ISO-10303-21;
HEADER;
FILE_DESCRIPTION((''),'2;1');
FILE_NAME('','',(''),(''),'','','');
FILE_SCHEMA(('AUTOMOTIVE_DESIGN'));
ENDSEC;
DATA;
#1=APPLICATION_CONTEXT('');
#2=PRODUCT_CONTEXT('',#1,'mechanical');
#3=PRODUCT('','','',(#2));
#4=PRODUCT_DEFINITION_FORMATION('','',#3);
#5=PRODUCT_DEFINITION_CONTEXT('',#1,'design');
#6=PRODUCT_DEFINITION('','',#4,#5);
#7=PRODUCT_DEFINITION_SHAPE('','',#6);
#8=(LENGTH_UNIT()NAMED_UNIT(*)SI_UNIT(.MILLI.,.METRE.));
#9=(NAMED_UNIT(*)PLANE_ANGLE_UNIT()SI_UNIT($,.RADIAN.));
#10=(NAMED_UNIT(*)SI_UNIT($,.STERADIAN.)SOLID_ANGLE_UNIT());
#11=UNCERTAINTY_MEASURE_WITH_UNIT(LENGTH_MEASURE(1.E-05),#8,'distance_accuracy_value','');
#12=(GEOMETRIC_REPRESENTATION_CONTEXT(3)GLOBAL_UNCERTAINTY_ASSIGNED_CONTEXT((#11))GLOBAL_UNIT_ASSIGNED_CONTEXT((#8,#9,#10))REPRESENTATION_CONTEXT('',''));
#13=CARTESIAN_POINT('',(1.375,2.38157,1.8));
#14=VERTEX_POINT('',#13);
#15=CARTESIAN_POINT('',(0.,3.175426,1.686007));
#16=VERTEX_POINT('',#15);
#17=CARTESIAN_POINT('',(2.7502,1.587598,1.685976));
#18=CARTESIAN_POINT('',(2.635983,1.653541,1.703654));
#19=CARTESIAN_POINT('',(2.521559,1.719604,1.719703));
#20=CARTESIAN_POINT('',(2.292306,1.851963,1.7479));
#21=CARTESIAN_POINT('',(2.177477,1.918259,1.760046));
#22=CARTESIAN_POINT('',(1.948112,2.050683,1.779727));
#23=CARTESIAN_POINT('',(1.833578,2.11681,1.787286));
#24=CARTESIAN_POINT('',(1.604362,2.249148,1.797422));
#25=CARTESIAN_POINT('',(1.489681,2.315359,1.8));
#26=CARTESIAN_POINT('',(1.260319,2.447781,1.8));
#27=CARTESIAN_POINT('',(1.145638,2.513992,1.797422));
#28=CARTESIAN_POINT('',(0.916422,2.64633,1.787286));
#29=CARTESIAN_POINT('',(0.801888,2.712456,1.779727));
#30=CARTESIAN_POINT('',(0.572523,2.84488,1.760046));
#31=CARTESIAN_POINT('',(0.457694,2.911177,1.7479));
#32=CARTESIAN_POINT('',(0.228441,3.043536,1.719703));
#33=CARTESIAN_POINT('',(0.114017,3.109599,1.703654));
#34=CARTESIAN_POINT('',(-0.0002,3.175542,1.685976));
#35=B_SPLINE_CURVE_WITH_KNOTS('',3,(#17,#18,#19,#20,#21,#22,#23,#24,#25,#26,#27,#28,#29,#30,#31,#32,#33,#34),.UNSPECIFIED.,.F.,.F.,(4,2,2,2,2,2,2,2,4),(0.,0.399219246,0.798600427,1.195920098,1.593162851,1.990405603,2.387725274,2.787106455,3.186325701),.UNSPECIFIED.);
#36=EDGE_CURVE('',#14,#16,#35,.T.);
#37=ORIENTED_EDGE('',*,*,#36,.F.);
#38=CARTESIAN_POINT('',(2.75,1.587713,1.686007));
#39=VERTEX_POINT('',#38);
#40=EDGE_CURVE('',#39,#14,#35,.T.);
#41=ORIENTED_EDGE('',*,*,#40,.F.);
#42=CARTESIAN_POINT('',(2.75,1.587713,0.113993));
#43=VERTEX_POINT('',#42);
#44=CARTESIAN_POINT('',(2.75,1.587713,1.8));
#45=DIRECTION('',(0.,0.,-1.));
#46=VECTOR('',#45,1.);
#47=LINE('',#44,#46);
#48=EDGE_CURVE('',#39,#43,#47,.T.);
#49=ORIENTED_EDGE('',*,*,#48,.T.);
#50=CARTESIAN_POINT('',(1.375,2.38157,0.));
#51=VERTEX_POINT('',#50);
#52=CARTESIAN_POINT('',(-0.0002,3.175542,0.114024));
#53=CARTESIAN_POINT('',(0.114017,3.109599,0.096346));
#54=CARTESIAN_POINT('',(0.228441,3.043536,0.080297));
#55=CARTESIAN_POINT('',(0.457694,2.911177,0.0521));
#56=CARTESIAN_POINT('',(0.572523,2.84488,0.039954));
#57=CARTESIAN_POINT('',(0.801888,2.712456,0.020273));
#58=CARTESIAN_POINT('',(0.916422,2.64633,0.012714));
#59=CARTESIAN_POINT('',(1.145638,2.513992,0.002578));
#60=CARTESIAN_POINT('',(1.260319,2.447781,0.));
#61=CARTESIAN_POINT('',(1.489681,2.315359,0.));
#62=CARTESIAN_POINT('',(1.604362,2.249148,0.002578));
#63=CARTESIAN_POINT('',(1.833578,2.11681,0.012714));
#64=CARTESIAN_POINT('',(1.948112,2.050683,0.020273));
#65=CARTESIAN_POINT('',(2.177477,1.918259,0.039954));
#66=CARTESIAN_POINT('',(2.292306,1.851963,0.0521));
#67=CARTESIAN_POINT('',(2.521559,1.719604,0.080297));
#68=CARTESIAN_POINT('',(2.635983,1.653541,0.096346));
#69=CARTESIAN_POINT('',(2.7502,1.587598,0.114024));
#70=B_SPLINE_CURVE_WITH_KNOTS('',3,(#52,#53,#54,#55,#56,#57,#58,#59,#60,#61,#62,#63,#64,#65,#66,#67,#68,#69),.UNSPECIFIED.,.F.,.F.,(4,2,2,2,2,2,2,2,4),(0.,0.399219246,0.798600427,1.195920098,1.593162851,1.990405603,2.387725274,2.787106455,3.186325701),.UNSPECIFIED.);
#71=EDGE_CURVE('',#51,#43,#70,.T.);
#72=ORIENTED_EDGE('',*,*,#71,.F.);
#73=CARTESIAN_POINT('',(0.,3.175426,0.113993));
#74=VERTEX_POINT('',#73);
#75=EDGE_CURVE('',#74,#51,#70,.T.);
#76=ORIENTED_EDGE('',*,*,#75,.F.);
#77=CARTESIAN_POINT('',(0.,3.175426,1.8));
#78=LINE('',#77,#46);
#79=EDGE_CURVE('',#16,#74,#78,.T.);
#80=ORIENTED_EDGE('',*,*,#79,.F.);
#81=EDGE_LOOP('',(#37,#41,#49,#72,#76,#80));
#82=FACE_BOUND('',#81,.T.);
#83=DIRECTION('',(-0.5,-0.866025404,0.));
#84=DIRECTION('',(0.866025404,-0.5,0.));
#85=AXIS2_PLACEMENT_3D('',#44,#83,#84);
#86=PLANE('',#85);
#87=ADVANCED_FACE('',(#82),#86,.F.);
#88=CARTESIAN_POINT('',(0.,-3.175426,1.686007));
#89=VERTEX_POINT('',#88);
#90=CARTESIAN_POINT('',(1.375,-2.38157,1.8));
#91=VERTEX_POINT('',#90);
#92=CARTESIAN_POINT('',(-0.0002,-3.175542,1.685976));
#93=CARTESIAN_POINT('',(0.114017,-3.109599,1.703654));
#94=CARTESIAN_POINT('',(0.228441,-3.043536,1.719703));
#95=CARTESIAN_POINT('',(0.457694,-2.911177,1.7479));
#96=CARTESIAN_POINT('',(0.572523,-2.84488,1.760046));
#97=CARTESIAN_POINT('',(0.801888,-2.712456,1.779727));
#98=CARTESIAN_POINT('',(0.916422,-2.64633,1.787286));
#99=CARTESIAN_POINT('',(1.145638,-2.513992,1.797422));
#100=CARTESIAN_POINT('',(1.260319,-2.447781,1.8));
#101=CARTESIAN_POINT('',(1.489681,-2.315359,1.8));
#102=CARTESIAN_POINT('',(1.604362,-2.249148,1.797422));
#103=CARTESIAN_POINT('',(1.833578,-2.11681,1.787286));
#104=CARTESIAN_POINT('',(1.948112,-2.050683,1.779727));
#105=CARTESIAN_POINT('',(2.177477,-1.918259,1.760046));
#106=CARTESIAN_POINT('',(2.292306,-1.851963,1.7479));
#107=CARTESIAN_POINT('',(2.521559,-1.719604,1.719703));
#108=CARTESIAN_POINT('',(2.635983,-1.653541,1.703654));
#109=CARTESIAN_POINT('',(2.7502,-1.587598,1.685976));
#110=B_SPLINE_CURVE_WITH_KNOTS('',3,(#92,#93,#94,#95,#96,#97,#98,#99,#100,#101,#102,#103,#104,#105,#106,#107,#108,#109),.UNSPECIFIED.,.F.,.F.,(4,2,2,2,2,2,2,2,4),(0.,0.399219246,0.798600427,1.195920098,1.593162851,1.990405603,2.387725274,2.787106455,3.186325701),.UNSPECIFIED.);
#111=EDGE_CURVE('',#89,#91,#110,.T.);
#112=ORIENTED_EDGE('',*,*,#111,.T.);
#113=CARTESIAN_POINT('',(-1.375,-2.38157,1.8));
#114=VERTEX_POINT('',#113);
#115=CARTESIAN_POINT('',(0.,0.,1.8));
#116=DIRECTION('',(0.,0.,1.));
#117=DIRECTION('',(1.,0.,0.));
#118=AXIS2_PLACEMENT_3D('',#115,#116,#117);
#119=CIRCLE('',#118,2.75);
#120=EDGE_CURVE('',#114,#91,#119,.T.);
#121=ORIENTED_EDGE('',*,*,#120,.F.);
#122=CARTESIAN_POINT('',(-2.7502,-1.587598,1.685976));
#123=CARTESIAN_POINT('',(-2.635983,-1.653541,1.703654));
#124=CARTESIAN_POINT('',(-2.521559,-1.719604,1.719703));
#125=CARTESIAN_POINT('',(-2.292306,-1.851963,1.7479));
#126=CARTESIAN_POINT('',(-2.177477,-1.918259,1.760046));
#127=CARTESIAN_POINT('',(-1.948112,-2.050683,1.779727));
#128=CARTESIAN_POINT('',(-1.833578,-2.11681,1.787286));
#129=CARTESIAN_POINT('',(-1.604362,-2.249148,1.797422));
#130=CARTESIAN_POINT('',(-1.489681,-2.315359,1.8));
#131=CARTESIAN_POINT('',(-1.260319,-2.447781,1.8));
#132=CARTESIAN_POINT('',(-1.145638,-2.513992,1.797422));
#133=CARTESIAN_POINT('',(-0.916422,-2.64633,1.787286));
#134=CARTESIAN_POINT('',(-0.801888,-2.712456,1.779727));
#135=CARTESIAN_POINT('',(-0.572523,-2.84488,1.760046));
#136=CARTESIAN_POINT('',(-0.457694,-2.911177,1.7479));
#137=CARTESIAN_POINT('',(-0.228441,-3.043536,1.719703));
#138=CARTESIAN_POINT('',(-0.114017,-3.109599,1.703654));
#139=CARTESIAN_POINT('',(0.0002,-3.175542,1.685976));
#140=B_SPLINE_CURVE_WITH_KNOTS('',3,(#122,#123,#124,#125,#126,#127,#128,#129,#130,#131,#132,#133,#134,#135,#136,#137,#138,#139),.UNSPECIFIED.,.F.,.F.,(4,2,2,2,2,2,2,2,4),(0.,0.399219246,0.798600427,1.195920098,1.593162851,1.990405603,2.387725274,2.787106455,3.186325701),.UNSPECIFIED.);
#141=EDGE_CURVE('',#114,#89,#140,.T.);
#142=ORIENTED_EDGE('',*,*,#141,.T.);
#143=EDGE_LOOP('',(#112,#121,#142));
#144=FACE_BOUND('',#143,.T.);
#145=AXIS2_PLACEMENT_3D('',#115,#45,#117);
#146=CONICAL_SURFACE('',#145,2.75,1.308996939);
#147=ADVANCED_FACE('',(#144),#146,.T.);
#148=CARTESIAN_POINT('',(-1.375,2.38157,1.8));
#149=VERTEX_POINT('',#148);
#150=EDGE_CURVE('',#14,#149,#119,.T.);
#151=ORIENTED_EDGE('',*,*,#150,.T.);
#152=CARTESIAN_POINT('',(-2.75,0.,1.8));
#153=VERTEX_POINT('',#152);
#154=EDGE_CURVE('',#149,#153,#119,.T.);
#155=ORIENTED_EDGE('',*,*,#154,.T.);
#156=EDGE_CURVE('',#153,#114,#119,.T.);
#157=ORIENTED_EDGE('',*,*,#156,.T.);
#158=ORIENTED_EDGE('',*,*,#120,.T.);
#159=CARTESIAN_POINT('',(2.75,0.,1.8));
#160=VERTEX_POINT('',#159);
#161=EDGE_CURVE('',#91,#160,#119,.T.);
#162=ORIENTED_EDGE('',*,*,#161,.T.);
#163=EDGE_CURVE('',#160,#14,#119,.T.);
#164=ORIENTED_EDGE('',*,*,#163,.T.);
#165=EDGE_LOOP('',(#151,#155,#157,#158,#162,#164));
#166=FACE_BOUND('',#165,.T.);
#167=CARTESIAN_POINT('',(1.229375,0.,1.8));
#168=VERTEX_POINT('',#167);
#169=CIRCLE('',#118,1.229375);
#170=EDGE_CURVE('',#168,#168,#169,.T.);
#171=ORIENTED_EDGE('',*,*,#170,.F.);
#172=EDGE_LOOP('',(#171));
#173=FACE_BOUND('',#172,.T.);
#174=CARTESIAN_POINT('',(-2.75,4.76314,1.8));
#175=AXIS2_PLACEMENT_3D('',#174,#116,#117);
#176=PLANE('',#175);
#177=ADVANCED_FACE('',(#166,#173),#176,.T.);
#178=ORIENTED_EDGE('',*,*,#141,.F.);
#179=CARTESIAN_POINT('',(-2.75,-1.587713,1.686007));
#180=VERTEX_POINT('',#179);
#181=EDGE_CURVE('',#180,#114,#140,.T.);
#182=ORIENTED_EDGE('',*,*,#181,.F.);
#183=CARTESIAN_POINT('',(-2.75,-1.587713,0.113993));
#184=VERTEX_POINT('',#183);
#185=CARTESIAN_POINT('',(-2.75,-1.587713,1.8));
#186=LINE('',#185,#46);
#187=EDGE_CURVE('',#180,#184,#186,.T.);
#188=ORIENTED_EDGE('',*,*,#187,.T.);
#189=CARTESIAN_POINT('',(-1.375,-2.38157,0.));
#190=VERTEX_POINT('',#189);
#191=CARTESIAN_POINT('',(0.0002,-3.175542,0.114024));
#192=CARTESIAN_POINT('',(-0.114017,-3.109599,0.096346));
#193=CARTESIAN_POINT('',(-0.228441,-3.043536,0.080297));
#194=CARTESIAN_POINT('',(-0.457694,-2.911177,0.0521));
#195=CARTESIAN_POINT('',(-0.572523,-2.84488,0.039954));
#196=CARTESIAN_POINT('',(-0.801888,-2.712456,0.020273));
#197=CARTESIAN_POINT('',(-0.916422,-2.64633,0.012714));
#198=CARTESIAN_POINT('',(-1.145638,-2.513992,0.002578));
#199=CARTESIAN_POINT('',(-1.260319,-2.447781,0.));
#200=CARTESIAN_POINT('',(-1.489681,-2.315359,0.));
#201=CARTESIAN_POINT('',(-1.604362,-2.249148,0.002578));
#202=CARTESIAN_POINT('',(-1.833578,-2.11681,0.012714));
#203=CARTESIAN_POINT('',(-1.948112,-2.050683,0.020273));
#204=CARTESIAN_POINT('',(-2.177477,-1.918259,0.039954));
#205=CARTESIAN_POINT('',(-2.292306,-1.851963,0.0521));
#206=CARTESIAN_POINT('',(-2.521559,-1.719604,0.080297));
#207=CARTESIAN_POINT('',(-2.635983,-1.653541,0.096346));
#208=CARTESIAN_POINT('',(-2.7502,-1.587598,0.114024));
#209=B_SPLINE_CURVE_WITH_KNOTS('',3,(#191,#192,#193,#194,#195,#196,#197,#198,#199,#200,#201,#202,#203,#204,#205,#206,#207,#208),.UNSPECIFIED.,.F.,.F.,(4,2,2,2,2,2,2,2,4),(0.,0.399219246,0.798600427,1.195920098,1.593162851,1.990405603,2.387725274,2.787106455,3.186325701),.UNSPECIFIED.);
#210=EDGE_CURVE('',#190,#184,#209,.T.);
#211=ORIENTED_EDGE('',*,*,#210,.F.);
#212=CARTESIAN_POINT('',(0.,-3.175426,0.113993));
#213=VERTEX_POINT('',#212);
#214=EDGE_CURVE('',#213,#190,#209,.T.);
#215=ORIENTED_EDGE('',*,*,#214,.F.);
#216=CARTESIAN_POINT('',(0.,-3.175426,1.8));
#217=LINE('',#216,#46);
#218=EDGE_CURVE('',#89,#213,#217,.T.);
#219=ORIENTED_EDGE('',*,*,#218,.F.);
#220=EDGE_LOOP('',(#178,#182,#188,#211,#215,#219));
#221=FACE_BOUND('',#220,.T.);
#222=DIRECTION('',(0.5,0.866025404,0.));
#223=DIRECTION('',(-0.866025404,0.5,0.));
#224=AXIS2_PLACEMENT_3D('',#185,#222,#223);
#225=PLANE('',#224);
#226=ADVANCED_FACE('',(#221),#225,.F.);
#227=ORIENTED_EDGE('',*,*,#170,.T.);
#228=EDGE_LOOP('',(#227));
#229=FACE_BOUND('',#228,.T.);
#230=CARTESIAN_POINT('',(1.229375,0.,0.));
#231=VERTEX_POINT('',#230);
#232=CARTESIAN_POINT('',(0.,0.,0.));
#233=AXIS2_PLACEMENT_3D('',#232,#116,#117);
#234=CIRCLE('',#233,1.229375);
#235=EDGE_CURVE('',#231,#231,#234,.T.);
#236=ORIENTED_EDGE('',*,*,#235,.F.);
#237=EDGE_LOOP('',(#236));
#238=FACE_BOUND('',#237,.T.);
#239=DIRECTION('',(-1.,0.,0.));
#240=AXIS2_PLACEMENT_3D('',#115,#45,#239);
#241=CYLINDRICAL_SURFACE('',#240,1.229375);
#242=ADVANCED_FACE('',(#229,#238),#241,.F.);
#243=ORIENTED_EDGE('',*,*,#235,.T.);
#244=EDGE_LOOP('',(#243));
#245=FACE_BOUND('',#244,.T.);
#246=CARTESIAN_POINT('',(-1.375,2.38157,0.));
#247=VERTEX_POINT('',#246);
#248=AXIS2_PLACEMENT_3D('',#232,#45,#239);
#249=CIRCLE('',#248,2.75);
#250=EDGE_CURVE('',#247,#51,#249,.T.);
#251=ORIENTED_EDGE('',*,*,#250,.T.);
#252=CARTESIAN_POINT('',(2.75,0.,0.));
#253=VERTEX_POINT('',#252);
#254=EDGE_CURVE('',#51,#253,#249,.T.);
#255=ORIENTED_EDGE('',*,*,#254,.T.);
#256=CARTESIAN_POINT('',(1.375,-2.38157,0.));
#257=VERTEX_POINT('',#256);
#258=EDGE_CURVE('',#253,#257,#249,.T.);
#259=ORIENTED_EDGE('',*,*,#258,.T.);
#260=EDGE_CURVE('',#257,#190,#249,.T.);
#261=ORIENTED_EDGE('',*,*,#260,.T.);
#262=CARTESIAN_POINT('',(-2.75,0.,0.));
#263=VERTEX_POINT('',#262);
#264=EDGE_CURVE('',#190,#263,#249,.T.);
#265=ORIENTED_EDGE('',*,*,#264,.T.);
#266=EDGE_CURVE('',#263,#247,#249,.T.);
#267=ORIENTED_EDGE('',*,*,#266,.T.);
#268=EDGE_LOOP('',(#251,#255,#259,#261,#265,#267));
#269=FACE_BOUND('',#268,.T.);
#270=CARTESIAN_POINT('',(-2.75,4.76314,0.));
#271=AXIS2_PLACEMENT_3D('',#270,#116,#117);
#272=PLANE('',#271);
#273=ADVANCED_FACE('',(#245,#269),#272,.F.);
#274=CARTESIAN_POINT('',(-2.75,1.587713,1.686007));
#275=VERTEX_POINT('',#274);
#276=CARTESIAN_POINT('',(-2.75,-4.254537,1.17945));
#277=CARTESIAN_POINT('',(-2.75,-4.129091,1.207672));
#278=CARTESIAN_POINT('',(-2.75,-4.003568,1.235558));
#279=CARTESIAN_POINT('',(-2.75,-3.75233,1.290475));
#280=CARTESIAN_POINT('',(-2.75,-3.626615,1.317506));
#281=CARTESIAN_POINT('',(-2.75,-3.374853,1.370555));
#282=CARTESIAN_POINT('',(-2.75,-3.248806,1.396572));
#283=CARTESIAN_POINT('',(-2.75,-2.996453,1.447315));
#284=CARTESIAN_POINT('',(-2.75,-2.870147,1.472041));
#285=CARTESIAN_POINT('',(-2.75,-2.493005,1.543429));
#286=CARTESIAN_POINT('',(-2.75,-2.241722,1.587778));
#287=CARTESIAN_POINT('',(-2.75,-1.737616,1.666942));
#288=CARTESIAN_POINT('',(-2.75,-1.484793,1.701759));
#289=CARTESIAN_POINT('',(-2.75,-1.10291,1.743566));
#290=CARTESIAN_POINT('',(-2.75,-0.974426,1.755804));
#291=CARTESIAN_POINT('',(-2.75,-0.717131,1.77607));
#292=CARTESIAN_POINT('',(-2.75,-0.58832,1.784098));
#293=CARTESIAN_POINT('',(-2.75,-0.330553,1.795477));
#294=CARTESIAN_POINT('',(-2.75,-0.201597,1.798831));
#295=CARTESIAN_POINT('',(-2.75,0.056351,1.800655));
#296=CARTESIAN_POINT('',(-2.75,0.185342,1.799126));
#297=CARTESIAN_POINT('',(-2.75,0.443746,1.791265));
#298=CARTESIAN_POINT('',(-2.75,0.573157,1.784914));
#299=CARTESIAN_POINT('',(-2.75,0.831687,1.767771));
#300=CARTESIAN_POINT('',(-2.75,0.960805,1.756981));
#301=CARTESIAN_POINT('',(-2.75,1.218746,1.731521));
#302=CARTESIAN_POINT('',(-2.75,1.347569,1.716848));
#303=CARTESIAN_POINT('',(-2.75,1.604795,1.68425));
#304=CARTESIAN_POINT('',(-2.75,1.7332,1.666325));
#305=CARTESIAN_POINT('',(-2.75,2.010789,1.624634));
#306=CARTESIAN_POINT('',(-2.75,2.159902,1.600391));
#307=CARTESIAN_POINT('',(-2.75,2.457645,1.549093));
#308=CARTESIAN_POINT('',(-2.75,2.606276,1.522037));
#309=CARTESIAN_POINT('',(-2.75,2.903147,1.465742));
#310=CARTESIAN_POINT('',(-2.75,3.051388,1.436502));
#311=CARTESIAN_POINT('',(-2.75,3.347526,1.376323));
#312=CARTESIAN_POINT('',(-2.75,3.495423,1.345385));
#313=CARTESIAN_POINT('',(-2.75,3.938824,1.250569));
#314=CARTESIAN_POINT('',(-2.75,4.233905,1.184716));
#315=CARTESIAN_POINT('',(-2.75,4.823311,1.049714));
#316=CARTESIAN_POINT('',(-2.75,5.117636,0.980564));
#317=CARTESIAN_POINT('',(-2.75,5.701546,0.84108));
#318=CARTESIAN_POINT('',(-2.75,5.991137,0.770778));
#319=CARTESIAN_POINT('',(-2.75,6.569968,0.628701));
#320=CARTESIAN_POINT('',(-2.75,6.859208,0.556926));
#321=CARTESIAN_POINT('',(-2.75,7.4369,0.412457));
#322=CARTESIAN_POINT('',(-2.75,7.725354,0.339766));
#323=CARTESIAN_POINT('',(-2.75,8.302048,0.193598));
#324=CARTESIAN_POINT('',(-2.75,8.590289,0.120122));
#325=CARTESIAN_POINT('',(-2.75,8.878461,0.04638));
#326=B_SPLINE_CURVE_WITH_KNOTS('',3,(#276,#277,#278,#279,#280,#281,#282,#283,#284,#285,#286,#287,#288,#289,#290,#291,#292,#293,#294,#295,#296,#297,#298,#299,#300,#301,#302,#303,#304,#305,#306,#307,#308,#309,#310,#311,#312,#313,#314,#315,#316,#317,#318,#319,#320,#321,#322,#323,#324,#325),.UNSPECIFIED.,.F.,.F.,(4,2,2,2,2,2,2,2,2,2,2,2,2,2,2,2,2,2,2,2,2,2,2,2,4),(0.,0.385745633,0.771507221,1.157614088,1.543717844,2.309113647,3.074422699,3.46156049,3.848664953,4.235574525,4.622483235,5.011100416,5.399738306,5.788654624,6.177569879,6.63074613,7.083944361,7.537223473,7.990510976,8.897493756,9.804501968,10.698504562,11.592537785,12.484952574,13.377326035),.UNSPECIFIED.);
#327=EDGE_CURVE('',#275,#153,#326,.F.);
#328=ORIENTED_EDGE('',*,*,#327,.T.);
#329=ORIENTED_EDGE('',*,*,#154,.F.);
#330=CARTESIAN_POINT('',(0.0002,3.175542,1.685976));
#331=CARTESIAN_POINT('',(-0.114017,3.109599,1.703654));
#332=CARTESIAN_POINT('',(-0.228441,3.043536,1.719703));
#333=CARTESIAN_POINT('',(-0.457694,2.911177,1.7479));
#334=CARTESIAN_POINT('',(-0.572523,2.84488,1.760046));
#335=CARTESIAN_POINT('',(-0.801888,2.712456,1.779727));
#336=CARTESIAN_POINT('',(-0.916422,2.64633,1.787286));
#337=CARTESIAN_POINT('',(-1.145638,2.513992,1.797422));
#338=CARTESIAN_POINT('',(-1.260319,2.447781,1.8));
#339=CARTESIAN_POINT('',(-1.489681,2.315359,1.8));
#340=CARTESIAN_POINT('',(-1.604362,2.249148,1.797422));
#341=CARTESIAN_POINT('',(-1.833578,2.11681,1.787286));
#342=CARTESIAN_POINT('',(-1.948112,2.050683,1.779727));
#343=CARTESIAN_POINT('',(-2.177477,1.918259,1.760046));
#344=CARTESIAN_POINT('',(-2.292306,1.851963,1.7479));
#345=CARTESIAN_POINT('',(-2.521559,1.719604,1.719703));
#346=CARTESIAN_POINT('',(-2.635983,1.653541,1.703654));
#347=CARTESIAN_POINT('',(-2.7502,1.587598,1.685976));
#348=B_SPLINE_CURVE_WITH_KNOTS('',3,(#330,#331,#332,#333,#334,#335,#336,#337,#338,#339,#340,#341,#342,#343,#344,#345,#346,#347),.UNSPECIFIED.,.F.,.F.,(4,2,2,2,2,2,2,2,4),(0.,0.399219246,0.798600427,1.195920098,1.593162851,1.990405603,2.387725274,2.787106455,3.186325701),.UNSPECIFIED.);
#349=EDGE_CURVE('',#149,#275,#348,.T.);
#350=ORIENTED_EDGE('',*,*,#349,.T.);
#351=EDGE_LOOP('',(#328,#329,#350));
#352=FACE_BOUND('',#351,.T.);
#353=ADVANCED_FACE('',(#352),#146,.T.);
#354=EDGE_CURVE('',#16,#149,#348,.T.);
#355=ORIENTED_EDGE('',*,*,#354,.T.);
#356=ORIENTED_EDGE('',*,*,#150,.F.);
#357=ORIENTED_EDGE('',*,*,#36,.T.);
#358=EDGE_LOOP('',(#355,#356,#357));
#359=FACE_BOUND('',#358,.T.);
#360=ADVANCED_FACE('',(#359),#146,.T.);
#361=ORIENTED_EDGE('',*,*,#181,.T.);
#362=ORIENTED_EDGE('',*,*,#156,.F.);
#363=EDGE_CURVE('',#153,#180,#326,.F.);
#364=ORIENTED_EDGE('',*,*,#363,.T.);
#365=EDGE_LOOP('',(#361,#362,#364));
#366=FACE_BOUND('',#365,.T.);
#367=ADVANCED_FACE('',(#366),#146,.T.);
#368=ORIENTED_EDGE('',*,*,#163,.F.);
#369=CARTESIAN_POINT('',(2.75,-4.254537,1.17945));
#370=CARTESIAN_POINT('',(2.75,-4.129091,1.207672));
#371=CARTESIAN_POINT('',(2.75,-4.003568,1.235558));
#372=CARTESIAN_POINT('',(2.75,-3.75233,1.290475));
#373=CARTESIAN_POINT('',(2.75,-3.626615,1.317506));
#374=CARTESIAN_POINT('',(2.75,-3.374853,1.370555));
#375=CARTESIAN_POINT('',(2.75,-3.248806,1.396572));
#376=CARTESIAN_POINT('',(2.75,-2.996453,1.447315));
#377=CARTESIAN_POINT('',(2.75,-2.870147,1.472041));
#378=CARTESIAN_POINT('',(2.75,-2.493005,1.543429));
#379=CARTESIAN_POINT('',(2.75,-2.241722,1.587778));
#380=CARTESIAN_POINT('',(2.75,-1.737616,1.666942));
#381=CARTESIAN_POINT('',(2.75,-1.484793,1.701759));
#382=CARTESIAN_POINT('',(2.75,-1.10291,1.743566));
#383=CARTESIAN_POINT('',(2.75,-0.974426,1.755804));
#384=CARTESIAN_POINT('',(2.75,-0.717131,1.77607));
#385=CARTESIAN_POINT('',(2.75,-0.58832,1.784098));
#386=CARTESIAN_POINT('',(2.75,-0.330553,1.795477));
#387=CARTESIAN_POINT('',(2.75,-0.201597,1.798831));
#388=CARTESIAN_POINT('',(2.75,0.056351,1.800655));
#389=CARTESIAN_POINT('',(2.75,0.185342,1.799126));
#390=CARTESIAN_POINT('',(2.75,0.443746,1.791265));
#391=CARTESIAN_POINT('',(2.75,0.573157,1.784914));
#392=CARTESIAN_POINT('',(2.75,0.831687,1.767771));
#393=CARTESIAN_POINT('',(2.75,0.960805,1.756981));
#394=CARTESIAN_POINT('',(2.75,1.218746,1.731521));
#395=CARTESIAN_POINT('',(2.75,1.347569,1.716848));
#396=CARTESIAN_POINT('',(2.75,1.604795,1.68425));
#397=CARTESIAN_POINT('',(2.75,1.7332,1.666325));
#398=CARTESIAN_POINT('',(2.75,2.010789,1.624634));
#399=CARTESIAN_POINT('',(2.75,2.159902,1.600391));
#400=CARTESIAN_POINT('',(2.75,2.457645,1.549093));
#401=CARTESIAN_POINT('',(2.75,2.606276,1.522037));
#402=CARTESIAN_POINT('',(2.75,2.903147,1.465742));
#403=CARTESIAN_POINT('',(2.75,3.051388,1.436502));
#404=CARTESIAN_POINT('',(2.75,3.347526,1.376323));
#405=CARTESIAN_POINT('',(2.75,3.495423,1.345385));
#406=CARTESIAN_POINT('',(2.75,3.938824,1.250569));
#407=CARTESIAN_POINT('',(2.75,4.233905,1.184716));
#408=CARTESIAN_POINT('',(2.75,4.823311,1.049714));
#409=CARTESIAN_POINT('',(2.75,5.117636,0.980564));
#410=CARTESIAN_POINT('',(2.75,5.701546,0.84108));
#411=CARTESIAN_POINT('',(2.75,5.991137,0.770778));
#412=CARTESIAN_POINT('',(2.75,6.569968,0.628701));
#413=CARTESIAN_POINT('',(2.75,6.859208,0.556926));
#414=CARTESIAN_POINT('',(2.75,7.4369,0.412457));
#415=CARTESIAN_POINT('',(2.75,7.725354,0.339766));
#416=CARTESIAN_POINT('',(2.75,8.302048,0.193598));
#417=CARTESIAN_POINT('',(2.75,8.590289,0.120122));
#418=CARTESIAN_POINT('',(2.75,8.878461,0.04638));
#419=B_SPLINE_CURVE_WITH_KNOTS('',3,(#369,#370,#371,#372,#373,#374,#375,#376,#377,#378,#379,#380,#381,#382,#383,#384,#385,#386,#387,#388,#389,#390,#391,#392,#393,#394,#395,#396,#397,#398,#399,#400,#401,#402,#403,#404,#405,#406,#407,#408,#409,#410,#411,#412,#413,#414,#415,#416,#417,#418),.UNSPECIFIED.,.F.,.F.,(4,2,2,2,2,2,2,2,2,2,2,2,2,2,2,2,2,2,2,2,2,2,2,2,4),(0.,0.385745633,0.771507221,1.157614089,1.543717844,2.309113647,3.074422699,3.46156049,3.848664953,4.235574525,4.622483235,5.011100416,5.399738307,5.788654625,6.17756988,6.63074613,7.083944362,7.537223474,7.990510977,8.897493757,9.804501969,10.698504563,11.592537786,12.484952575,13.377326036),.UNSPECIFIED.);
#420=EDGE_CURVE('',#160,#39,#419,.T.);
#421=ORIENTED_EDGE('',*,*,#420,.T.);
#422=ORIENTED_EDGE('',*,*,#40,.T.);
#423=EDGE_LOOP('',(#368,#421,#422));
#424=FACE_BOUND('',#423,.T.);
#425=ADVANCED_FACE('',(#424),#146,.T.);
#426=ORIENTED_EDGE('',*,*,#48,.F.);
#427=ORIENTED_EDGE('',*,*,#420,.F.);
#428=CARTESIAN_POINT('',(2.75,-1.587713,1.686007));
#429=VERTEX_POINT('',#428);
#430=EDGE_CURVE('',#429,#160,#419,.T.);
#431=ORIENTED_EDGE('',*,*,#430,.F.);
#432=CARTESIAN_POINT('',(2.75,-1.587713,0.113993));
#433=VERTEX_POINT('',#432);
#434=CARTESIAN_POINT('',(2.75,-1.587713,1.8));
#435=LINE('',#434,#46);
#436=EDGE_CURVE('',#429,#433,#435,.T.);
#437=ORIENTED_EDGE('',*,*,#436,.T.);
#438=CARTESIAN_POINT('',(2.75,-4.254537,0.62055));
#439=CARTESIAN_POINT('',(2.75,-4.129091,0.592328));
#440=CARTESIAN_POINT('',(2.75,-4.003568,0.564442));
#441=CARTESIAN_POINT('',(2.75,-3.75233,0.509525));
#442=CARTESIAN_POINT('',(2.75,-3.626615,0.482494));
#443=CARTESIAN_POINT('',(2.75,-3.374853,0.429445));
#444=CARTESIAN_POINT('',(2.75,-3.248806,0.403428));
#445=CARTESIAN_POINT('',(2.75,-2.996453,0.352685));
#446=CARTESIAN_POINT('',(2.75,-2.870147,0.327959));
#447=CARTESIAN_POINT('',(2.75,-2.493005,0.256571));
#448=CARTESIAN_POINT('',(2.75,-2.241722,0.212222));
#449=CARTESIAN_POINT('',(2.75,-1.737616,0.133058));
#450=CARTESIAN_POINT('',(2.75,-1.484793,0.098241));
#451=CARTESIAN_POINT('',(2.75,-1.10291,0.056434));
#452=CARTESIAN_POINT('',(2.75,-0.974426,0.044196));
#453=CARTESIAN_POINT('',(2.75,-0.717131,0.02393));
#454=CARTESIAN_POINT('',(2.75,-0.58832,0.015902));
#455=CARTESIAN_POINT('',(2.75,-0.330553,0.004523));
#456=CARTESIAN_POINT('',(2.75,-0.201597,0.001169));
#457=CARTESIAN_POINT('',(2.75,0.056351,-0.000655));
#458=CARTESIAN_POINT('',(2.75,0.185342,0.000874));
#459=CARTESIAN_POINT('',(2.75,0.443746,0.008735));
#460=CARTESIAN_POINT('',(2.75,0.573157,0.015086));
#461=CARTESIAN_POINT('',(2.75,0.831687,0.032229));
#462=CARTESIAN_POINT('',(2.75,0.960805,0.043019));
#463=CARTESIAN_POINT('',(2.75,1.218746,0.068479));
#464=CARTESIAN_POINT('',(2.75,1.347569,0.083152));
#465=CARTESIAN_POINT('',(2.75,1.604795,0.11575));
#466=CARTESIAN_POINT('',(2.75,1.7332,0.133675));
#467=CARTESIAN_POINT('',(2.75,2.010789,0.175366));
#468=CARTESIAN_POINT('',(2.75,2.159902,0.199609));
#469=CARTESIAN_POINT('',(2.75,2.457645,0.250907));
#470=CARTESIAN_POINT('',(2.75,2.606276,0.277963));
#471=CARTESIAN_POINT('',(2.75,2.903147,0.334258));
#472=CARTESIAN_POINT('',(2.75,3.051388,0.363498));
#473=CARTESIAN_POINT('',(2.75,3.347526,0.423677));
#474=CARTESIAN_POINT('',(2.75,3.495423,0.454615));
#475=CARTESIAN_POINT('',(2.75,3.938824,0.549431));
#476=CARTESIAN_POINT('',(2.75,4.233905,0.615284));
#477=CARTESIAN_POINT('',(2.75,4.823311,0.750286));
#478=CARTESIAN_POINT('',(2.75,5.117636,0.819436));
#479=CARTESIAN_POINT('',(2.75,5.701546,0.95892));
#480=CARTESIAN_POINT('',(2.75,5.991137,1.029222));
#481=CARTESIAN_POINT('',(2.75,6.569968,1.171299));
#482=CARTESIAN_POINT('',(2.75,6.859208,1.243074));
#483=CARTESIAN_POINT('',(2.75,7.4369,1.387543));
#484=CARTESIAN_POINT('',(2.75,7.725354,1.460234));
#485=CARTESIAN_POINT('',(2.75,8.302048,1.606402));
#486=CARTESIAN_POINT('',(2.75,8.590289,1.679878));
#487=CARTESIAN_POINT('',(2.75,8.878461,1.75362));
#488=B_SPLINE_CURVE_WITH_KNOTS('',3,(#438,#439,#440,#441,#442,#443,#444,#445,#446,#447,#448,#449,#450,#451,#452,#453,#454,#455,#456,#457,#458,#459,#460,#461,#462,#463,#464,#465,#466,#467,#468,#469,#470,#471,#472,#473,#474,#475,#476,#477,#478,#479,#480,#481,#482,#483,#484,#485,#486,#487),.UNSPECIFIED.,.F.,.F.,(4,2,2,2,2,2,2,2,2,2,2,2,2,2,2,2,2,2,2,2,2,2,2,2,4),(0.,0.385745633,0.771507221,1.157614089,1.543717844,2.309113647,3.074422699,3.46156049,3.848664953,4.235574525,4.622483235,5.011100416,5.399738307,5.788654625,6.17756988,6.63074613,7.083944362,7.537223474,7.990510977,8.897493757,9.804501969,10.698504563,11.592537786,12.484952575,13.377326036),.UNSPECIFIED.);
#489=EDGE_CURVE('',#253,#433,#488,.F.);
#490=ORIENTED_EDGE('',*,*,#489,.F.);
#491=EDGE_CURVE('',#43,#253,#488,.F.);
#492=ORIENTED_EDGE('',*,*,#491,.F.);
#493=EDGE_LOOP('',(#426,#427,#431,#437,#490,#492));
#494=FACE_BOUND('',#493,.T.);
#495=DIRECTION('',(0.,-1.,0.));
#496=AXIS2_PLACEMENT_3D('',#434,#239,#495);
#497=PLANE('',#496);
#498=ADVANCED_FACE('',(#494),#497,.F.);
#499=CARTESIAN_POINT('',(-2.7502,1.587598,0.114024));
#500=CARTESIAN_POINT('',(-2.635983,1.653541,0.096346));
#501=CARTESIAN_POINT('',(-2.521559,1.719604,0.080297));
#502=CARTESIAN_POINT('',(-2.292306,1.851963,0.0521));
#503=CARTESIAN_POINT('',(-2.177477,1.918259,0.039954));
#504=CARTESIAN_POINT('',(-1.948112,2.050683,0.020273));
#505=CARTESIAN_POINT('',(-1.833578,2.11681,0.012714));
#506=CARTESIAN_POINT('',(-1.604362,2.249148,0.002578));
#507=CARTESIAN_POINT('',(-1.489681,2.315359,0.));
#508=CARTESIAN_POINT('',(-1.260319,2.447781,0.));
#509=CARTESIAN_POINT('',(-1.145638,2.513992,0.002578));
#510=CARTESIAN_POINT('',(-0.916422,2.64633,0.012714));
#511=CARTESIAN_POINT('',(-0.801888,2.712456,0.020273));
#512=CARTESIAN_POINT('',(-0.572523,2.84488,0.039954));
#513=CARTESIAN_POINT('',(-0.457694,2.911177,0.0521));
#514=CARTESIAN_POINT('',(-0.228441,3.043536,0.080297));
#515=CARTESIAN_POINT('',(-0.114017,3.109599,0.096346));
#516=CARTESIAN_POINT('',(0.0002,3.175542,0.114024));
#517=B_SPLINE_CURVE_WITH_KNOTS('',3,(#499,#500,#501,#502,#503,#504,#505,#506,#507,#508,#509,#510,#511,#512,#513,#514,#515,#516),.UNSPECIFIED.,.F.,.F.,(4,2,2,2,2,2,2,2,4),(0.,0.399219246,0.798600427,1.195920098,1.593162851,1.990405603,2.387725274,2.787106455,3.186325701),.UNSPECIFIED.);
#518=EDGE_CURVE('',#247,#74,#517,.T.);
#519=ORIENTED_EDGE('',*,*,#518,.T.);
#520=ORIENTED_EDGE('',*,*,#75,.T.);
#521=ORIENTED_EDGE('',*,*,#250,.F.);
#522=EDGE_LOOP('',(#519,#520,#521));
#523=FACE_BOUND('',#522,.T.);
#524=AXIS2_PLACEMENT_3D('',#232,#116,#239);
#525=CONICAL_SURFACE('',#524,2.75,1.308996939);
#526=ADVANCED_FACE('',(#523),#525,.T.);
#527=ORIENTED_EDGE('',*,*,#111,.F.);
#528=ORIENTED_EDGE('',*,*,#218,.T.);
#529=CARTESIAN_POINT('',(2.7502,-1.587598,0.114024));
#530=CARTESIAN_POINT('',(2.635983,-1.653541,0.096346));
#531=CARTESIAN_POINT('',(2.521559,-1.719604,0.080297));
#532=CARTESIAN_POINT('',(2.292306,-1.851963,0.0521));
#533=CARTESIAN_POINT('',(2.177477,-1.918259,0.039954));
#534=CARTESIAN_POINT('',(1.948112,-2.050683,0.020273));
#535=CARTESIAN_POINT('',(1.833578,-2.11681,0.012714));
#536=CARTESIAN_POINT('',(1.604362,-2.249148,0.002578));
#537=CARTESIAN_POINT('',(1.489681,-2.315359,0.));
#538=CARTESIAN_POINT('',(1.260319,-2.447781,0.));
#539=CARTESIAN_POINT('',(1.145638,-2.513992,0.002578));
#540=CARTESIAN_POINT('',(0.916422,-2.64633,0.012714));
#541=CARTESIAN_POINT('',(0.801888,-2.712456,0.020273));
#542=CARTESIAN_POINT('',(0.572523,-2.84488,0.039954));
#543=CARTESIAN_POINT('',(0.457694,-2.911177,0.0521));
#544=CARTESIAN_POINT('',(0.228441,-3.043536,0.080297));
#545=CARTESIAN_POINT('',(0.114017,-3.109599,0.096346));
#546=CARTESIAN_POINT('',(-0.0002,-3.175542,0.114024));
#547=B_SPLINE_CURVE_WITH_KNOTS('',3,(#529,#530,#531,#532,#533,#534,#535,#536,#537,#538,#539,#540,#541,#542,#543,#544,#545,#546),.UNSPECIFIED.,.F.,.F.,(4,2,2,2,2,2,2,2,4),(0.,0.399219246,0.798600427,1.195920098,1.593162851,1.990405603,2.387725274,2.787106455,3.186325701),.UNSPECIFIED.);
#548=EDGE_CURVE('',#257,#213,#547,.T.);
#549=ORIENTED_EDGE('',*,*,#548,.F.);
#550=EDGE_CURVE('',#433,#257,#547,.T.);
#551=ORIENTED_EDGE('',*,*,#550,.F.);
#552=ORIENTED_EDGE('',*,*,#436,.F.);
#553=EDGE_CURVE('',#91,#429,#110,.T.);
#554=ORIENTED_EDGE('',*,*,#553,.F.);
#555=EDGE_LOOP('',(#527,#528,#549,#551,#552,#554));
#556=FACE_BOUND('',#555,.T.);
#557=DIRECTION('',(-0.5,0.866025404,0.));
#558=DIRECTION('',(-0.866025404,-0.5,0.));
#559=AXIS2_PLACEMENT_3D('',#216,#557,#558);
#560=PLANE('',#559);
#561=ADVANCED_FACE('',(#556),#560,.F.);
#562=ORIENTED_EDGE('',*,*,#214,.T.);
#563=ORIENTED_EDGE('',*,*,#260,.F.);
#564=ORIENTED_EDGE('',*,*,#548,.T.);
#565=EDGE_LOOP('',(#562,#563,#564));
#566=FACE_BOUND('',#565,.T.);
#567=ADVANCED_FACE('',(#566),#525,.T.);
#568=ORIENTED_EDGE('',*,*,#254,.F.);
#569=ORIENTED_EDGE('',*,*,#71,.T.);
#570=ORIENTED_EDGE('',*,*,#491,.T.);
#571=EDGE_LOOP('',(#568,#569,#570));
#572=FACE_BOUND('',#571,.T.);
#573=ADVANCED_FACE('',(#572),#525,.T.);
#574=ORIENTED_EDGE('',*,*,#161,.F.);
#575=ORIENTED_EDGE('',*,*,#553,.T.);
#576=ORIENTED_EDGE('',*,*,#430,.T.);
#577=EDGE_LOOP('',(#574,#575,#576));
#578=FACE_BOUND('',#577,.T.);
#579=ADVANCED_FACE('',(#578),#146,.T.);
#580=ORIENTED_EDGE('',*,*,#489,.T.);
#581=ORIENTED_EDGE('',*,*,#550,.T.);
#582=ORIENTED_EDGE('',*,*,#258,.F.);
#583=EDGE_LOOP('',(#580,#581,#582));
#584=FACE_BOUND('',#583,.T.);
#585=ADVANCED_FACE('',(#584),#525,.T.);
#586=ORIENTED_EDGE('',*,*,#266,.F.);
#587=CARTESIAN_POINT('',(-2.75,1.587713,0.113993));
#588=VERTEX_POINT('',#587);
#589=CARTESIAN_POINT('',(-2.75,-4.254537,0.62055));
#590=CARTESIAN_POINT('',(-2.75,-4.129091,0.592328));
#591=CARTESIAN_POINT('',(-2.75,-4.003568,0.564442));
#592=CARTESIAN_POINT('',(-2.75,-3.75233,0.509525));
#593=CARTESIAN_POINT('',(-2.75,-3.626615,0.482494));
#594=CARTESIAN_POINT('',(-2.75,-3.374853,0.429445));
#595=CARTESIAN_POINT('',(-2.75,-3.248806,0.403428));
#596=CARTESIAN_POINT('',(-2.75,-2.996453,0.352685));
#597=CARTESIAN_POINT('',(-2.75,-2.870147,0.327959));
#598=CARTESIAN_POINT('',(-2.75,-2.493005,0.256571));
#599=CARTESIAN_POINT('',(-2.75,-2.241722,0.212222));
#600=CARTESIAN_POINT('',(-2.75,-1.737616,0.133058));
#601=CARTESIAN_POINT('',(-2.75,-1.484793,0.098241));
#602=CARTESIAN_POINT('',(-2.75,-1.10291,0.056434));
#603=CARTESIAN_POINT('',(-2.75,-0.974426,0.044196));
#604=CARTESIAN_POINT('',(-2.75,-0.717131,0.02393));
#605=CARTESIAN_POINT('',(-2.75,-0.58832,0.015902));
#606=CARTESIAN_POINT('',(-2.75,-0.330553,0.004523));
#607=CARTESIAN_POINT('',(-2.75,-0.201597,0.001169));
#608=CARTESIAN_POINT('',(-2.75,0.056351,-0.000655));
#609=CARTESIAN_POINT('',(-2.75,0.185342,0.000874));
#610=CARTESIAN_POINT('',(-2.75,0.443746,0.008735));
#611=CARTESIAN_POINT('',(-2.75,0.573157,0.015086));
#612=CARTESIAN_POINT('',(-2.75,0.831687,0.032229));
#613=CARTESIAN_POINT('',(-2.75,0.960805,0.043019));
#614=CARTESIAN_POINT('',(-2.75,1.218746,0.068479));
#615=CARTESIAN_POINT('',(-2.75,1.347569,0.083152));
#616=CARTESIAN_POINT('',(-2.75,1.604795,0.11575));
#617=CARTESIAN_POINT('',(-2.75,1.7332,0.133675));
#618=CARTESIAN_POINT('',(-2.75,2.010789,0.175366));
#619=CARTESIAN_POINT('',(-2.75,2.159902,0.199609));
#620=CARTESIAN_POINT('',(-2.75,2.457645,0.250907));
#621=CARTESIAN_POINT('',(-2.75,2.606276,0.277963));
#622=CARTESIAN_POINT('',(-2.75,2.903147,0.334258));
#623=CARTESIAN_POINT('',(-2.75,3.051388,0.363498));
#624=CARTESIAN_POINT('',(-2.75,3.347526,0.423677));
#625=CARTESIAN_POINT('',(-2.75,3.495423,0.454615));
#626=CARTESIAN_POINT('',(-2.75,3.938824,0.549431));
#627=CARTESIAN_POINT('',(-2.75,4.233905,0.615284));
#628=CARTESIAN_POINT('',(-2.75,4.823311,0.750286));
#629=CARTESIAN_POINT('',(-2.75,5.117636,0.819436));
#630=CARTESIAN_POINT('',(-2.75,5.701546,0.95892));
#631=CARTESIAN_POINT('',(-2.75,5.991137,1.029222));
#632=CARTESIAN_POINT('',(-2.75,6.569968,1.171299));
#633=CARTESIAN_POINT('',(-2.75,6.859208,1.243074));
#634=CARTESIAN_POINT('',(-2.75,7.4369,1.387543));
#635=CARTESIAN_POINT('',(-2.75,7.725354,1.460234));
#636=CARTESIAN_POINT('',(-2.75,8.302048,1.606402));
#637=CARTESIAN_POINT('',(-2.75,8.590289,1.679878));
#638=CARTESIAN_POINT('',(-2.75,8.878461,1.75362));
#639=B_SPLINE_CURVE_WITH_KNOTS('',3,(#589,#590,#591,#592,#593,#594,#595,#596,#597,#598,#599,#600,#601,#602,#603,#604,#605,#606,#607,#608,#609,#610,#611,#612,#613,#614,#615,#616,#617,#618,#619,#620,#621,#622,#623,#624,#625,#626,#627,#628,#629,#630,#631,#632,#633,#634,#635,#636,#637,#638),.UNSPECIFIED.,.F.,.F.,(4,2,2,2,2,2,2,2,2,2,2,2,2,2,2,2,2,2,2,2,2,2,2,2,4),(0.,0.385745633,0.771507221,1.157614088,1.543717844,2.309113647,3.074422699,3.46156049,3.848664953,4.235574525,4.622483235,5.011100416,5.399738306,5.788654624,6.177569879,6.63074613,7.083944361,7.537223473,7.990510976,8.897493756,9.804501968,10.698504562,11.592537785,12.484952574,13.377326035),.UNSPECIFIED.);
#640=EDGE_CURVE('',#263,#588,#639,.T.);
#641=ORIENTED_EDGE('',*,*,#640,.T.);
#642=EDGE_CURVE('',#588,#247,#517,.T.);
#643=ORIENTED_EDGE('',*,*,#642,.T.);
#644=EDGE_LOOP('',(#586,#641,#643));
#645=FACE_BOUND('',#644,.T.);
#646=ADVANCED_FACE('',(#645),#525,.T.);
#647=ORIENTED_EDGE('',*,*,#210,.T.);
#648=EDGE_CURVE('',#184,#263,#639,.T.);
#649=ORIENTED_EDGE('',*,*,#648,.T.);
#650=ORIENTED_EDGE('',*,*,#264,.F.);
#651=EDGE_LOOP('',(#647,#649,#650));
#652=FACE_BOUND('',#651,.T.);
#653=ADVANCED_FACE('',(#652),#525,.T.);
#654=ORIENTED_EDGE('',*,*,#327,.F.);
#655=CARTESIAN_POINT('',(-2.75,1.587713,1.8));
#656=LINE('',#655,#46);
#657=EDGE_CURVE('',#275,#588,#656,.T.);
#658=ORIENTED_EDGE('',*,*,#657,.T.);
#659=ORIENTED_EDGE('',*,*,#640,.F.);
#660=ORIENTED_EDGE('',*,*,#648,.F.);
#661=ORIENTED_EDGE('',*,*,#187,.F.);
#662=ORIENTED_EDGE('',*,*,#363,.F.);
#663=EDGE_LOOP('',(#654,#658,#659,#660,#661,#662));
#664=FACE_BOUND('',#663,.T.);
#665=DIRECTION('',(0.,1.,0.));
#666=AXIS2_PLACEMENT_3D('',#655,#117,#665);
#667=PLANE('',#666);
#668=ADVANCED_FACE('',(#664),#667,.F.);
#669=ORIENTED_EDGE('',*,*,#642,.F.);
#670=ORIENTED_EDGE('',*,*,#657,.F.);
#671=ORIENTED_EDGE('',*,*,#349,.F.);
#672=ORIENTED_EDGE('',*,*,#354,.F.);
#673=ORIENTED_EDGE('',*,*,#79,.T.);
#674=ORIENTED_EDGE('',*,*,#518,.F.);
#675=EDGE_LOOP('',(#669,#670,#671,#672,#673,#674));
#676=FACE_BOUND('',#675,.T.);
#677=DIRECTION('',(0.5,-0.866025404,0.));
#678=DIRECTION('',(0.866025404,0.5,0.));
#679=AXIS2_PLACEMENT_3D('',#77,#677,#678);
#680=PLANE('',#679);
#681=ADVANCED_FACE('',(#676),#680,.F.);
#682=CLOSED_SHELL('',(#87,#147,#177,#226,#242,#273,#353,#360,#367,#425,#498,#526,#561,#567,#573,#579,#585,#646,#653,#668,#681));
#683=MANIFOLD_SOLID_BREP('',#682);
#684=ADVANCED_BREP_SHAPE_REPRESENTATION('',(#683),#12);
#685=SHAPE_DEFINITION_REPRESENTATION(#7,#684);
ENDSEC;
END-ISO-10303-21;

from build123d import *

# Parameters (mm, degrees)
SKETCH_1_R          = 1.229375
EXTRUDE_580_DEPTH   = 1.8
SKETCH_2_OUTSIDE_W  = 50.794
SKETCH_2_OUTSIDE_H  = 51.644
SKETCH_2_OUTSIDE_R  = 2.75
CUT_EXTRUDE_1_DEPTH = 5.570102114
CUT_EXTRUDE_1_DRAFT = -75
SKETCH_3_OUTSIDE_W  = 50.794
SKETCH_3_OUTSIDE_H  = 51.644
SKETCH_3_OUTSIDE_R  = 2.75
CUT_EXTRUDE_2_DEPTH = 5.570102114
CUT_EXTRUDE_2_DRAFT = -75


with BuildPart() as part:
    # 草图1 → Extrude 580 (new body)
    with BuildSketch(Plane.XY):
        Polygon((0, 3.175426481), (-2.75, 1.58771324), (-2.75, -1.58771324), (0, -3.175426481), (2.75, -1.58771324), (2.75, 1.58771324), align=None)
        Circle(SKETCH_1_R, mode=Mode.SUBTRACT)
    extrude(amount=EXTRUDE_580_DEPTH)


with BuildPart() as cut_extrude_1_tool:
    # 草图2 outside → 切除-拉伸1 (with draft: the straight prism first)
    with BuildSketch(Plane(origin=(0, 0, 0), x_dir=(-1, 0, 0), z_dir=(0, 0, -1))):
        Rectangle(SKETCH_2_OUTSIDE_W, SKETCH_2_OUTSIDE_H)
        Circle(SKETCH_2_OUTSIDE_R, mode=Mode.SUBTRACT)
    extrude(amount=-CUT_EXTRUDE_1_DEPTH)
    # 切除-拉伸1: the draft: its side faces are tilted about the plane it starts from
    cut_extrude_1_sides = [cut_extrude_1_tool.faces().sort_by_distance(p)[0] for p in [
        (0, -25.822, 2.785051057),
        (-25.397, 0, 2.785051057),
        (0, 25.822, 2.785051057),
        (25.397, 0, 2.785051057),
        (2.75, 0, 2.785051057),
    ]]
    draft(cut_extrude_1_sides, Plane(origin=(0, 0, 0), x_dir=(-1, 0, 0), z_dir=(0, 0, -1)), CUT_EXTRUDE_1_DRAFT)


with BuildPart() as part_1:
    add(part.part)

    # 切除-拉伸1: cut by cut_extrude_1_tool
    add(cut_extrude_1_tool.part, mode=Mode.SUBTRACT)


with BuildPart() as cut_extrude_2_tool:
    # 草图3 outside → 切除-拉伸2 (with draft: the straight prism first)
    with BuildSketch(Plane.XY.offset(1.8)):
        Rectangle(SKETCH_3_OUTSIDE_W, SKETCH_3_OUTSIDE_H)
        Circle(SKETCH_3_OUTSIDE_R, mode=Mode.SUBTRACT)
    extrude(amount=-CUT_EXTRUDE_2_DEPTH)
    # 切除-拉伸2: the draft: its side faces are tilted about the plane it starts from
    cut_extrude_2_sides = [cut_extrude_2_tool.faces().sort_by_distance(p)[0] for p in [
        (0, -25.822, -0.985051057),
        (25.397, 0, -0.985051057),
        (0, 25.822, -0.985051057),
        (-25.397, 0, -0.985051057),
        (-2.75, 0, -0.985051057),
    ]]
    draft(cut_extrude_2_sides, Plane.XY.offset(1.8), CUT_EXTRUDE_2_DRAFT)


with BuildPart() as part_2:
    add(part_1.part)

    # 切除-拉伸2: cut by cut_extrude_2_tool
    add(cut_extrude_2_tool.part, mode=Mode.SUBTRACT)


solid = part_2.part
